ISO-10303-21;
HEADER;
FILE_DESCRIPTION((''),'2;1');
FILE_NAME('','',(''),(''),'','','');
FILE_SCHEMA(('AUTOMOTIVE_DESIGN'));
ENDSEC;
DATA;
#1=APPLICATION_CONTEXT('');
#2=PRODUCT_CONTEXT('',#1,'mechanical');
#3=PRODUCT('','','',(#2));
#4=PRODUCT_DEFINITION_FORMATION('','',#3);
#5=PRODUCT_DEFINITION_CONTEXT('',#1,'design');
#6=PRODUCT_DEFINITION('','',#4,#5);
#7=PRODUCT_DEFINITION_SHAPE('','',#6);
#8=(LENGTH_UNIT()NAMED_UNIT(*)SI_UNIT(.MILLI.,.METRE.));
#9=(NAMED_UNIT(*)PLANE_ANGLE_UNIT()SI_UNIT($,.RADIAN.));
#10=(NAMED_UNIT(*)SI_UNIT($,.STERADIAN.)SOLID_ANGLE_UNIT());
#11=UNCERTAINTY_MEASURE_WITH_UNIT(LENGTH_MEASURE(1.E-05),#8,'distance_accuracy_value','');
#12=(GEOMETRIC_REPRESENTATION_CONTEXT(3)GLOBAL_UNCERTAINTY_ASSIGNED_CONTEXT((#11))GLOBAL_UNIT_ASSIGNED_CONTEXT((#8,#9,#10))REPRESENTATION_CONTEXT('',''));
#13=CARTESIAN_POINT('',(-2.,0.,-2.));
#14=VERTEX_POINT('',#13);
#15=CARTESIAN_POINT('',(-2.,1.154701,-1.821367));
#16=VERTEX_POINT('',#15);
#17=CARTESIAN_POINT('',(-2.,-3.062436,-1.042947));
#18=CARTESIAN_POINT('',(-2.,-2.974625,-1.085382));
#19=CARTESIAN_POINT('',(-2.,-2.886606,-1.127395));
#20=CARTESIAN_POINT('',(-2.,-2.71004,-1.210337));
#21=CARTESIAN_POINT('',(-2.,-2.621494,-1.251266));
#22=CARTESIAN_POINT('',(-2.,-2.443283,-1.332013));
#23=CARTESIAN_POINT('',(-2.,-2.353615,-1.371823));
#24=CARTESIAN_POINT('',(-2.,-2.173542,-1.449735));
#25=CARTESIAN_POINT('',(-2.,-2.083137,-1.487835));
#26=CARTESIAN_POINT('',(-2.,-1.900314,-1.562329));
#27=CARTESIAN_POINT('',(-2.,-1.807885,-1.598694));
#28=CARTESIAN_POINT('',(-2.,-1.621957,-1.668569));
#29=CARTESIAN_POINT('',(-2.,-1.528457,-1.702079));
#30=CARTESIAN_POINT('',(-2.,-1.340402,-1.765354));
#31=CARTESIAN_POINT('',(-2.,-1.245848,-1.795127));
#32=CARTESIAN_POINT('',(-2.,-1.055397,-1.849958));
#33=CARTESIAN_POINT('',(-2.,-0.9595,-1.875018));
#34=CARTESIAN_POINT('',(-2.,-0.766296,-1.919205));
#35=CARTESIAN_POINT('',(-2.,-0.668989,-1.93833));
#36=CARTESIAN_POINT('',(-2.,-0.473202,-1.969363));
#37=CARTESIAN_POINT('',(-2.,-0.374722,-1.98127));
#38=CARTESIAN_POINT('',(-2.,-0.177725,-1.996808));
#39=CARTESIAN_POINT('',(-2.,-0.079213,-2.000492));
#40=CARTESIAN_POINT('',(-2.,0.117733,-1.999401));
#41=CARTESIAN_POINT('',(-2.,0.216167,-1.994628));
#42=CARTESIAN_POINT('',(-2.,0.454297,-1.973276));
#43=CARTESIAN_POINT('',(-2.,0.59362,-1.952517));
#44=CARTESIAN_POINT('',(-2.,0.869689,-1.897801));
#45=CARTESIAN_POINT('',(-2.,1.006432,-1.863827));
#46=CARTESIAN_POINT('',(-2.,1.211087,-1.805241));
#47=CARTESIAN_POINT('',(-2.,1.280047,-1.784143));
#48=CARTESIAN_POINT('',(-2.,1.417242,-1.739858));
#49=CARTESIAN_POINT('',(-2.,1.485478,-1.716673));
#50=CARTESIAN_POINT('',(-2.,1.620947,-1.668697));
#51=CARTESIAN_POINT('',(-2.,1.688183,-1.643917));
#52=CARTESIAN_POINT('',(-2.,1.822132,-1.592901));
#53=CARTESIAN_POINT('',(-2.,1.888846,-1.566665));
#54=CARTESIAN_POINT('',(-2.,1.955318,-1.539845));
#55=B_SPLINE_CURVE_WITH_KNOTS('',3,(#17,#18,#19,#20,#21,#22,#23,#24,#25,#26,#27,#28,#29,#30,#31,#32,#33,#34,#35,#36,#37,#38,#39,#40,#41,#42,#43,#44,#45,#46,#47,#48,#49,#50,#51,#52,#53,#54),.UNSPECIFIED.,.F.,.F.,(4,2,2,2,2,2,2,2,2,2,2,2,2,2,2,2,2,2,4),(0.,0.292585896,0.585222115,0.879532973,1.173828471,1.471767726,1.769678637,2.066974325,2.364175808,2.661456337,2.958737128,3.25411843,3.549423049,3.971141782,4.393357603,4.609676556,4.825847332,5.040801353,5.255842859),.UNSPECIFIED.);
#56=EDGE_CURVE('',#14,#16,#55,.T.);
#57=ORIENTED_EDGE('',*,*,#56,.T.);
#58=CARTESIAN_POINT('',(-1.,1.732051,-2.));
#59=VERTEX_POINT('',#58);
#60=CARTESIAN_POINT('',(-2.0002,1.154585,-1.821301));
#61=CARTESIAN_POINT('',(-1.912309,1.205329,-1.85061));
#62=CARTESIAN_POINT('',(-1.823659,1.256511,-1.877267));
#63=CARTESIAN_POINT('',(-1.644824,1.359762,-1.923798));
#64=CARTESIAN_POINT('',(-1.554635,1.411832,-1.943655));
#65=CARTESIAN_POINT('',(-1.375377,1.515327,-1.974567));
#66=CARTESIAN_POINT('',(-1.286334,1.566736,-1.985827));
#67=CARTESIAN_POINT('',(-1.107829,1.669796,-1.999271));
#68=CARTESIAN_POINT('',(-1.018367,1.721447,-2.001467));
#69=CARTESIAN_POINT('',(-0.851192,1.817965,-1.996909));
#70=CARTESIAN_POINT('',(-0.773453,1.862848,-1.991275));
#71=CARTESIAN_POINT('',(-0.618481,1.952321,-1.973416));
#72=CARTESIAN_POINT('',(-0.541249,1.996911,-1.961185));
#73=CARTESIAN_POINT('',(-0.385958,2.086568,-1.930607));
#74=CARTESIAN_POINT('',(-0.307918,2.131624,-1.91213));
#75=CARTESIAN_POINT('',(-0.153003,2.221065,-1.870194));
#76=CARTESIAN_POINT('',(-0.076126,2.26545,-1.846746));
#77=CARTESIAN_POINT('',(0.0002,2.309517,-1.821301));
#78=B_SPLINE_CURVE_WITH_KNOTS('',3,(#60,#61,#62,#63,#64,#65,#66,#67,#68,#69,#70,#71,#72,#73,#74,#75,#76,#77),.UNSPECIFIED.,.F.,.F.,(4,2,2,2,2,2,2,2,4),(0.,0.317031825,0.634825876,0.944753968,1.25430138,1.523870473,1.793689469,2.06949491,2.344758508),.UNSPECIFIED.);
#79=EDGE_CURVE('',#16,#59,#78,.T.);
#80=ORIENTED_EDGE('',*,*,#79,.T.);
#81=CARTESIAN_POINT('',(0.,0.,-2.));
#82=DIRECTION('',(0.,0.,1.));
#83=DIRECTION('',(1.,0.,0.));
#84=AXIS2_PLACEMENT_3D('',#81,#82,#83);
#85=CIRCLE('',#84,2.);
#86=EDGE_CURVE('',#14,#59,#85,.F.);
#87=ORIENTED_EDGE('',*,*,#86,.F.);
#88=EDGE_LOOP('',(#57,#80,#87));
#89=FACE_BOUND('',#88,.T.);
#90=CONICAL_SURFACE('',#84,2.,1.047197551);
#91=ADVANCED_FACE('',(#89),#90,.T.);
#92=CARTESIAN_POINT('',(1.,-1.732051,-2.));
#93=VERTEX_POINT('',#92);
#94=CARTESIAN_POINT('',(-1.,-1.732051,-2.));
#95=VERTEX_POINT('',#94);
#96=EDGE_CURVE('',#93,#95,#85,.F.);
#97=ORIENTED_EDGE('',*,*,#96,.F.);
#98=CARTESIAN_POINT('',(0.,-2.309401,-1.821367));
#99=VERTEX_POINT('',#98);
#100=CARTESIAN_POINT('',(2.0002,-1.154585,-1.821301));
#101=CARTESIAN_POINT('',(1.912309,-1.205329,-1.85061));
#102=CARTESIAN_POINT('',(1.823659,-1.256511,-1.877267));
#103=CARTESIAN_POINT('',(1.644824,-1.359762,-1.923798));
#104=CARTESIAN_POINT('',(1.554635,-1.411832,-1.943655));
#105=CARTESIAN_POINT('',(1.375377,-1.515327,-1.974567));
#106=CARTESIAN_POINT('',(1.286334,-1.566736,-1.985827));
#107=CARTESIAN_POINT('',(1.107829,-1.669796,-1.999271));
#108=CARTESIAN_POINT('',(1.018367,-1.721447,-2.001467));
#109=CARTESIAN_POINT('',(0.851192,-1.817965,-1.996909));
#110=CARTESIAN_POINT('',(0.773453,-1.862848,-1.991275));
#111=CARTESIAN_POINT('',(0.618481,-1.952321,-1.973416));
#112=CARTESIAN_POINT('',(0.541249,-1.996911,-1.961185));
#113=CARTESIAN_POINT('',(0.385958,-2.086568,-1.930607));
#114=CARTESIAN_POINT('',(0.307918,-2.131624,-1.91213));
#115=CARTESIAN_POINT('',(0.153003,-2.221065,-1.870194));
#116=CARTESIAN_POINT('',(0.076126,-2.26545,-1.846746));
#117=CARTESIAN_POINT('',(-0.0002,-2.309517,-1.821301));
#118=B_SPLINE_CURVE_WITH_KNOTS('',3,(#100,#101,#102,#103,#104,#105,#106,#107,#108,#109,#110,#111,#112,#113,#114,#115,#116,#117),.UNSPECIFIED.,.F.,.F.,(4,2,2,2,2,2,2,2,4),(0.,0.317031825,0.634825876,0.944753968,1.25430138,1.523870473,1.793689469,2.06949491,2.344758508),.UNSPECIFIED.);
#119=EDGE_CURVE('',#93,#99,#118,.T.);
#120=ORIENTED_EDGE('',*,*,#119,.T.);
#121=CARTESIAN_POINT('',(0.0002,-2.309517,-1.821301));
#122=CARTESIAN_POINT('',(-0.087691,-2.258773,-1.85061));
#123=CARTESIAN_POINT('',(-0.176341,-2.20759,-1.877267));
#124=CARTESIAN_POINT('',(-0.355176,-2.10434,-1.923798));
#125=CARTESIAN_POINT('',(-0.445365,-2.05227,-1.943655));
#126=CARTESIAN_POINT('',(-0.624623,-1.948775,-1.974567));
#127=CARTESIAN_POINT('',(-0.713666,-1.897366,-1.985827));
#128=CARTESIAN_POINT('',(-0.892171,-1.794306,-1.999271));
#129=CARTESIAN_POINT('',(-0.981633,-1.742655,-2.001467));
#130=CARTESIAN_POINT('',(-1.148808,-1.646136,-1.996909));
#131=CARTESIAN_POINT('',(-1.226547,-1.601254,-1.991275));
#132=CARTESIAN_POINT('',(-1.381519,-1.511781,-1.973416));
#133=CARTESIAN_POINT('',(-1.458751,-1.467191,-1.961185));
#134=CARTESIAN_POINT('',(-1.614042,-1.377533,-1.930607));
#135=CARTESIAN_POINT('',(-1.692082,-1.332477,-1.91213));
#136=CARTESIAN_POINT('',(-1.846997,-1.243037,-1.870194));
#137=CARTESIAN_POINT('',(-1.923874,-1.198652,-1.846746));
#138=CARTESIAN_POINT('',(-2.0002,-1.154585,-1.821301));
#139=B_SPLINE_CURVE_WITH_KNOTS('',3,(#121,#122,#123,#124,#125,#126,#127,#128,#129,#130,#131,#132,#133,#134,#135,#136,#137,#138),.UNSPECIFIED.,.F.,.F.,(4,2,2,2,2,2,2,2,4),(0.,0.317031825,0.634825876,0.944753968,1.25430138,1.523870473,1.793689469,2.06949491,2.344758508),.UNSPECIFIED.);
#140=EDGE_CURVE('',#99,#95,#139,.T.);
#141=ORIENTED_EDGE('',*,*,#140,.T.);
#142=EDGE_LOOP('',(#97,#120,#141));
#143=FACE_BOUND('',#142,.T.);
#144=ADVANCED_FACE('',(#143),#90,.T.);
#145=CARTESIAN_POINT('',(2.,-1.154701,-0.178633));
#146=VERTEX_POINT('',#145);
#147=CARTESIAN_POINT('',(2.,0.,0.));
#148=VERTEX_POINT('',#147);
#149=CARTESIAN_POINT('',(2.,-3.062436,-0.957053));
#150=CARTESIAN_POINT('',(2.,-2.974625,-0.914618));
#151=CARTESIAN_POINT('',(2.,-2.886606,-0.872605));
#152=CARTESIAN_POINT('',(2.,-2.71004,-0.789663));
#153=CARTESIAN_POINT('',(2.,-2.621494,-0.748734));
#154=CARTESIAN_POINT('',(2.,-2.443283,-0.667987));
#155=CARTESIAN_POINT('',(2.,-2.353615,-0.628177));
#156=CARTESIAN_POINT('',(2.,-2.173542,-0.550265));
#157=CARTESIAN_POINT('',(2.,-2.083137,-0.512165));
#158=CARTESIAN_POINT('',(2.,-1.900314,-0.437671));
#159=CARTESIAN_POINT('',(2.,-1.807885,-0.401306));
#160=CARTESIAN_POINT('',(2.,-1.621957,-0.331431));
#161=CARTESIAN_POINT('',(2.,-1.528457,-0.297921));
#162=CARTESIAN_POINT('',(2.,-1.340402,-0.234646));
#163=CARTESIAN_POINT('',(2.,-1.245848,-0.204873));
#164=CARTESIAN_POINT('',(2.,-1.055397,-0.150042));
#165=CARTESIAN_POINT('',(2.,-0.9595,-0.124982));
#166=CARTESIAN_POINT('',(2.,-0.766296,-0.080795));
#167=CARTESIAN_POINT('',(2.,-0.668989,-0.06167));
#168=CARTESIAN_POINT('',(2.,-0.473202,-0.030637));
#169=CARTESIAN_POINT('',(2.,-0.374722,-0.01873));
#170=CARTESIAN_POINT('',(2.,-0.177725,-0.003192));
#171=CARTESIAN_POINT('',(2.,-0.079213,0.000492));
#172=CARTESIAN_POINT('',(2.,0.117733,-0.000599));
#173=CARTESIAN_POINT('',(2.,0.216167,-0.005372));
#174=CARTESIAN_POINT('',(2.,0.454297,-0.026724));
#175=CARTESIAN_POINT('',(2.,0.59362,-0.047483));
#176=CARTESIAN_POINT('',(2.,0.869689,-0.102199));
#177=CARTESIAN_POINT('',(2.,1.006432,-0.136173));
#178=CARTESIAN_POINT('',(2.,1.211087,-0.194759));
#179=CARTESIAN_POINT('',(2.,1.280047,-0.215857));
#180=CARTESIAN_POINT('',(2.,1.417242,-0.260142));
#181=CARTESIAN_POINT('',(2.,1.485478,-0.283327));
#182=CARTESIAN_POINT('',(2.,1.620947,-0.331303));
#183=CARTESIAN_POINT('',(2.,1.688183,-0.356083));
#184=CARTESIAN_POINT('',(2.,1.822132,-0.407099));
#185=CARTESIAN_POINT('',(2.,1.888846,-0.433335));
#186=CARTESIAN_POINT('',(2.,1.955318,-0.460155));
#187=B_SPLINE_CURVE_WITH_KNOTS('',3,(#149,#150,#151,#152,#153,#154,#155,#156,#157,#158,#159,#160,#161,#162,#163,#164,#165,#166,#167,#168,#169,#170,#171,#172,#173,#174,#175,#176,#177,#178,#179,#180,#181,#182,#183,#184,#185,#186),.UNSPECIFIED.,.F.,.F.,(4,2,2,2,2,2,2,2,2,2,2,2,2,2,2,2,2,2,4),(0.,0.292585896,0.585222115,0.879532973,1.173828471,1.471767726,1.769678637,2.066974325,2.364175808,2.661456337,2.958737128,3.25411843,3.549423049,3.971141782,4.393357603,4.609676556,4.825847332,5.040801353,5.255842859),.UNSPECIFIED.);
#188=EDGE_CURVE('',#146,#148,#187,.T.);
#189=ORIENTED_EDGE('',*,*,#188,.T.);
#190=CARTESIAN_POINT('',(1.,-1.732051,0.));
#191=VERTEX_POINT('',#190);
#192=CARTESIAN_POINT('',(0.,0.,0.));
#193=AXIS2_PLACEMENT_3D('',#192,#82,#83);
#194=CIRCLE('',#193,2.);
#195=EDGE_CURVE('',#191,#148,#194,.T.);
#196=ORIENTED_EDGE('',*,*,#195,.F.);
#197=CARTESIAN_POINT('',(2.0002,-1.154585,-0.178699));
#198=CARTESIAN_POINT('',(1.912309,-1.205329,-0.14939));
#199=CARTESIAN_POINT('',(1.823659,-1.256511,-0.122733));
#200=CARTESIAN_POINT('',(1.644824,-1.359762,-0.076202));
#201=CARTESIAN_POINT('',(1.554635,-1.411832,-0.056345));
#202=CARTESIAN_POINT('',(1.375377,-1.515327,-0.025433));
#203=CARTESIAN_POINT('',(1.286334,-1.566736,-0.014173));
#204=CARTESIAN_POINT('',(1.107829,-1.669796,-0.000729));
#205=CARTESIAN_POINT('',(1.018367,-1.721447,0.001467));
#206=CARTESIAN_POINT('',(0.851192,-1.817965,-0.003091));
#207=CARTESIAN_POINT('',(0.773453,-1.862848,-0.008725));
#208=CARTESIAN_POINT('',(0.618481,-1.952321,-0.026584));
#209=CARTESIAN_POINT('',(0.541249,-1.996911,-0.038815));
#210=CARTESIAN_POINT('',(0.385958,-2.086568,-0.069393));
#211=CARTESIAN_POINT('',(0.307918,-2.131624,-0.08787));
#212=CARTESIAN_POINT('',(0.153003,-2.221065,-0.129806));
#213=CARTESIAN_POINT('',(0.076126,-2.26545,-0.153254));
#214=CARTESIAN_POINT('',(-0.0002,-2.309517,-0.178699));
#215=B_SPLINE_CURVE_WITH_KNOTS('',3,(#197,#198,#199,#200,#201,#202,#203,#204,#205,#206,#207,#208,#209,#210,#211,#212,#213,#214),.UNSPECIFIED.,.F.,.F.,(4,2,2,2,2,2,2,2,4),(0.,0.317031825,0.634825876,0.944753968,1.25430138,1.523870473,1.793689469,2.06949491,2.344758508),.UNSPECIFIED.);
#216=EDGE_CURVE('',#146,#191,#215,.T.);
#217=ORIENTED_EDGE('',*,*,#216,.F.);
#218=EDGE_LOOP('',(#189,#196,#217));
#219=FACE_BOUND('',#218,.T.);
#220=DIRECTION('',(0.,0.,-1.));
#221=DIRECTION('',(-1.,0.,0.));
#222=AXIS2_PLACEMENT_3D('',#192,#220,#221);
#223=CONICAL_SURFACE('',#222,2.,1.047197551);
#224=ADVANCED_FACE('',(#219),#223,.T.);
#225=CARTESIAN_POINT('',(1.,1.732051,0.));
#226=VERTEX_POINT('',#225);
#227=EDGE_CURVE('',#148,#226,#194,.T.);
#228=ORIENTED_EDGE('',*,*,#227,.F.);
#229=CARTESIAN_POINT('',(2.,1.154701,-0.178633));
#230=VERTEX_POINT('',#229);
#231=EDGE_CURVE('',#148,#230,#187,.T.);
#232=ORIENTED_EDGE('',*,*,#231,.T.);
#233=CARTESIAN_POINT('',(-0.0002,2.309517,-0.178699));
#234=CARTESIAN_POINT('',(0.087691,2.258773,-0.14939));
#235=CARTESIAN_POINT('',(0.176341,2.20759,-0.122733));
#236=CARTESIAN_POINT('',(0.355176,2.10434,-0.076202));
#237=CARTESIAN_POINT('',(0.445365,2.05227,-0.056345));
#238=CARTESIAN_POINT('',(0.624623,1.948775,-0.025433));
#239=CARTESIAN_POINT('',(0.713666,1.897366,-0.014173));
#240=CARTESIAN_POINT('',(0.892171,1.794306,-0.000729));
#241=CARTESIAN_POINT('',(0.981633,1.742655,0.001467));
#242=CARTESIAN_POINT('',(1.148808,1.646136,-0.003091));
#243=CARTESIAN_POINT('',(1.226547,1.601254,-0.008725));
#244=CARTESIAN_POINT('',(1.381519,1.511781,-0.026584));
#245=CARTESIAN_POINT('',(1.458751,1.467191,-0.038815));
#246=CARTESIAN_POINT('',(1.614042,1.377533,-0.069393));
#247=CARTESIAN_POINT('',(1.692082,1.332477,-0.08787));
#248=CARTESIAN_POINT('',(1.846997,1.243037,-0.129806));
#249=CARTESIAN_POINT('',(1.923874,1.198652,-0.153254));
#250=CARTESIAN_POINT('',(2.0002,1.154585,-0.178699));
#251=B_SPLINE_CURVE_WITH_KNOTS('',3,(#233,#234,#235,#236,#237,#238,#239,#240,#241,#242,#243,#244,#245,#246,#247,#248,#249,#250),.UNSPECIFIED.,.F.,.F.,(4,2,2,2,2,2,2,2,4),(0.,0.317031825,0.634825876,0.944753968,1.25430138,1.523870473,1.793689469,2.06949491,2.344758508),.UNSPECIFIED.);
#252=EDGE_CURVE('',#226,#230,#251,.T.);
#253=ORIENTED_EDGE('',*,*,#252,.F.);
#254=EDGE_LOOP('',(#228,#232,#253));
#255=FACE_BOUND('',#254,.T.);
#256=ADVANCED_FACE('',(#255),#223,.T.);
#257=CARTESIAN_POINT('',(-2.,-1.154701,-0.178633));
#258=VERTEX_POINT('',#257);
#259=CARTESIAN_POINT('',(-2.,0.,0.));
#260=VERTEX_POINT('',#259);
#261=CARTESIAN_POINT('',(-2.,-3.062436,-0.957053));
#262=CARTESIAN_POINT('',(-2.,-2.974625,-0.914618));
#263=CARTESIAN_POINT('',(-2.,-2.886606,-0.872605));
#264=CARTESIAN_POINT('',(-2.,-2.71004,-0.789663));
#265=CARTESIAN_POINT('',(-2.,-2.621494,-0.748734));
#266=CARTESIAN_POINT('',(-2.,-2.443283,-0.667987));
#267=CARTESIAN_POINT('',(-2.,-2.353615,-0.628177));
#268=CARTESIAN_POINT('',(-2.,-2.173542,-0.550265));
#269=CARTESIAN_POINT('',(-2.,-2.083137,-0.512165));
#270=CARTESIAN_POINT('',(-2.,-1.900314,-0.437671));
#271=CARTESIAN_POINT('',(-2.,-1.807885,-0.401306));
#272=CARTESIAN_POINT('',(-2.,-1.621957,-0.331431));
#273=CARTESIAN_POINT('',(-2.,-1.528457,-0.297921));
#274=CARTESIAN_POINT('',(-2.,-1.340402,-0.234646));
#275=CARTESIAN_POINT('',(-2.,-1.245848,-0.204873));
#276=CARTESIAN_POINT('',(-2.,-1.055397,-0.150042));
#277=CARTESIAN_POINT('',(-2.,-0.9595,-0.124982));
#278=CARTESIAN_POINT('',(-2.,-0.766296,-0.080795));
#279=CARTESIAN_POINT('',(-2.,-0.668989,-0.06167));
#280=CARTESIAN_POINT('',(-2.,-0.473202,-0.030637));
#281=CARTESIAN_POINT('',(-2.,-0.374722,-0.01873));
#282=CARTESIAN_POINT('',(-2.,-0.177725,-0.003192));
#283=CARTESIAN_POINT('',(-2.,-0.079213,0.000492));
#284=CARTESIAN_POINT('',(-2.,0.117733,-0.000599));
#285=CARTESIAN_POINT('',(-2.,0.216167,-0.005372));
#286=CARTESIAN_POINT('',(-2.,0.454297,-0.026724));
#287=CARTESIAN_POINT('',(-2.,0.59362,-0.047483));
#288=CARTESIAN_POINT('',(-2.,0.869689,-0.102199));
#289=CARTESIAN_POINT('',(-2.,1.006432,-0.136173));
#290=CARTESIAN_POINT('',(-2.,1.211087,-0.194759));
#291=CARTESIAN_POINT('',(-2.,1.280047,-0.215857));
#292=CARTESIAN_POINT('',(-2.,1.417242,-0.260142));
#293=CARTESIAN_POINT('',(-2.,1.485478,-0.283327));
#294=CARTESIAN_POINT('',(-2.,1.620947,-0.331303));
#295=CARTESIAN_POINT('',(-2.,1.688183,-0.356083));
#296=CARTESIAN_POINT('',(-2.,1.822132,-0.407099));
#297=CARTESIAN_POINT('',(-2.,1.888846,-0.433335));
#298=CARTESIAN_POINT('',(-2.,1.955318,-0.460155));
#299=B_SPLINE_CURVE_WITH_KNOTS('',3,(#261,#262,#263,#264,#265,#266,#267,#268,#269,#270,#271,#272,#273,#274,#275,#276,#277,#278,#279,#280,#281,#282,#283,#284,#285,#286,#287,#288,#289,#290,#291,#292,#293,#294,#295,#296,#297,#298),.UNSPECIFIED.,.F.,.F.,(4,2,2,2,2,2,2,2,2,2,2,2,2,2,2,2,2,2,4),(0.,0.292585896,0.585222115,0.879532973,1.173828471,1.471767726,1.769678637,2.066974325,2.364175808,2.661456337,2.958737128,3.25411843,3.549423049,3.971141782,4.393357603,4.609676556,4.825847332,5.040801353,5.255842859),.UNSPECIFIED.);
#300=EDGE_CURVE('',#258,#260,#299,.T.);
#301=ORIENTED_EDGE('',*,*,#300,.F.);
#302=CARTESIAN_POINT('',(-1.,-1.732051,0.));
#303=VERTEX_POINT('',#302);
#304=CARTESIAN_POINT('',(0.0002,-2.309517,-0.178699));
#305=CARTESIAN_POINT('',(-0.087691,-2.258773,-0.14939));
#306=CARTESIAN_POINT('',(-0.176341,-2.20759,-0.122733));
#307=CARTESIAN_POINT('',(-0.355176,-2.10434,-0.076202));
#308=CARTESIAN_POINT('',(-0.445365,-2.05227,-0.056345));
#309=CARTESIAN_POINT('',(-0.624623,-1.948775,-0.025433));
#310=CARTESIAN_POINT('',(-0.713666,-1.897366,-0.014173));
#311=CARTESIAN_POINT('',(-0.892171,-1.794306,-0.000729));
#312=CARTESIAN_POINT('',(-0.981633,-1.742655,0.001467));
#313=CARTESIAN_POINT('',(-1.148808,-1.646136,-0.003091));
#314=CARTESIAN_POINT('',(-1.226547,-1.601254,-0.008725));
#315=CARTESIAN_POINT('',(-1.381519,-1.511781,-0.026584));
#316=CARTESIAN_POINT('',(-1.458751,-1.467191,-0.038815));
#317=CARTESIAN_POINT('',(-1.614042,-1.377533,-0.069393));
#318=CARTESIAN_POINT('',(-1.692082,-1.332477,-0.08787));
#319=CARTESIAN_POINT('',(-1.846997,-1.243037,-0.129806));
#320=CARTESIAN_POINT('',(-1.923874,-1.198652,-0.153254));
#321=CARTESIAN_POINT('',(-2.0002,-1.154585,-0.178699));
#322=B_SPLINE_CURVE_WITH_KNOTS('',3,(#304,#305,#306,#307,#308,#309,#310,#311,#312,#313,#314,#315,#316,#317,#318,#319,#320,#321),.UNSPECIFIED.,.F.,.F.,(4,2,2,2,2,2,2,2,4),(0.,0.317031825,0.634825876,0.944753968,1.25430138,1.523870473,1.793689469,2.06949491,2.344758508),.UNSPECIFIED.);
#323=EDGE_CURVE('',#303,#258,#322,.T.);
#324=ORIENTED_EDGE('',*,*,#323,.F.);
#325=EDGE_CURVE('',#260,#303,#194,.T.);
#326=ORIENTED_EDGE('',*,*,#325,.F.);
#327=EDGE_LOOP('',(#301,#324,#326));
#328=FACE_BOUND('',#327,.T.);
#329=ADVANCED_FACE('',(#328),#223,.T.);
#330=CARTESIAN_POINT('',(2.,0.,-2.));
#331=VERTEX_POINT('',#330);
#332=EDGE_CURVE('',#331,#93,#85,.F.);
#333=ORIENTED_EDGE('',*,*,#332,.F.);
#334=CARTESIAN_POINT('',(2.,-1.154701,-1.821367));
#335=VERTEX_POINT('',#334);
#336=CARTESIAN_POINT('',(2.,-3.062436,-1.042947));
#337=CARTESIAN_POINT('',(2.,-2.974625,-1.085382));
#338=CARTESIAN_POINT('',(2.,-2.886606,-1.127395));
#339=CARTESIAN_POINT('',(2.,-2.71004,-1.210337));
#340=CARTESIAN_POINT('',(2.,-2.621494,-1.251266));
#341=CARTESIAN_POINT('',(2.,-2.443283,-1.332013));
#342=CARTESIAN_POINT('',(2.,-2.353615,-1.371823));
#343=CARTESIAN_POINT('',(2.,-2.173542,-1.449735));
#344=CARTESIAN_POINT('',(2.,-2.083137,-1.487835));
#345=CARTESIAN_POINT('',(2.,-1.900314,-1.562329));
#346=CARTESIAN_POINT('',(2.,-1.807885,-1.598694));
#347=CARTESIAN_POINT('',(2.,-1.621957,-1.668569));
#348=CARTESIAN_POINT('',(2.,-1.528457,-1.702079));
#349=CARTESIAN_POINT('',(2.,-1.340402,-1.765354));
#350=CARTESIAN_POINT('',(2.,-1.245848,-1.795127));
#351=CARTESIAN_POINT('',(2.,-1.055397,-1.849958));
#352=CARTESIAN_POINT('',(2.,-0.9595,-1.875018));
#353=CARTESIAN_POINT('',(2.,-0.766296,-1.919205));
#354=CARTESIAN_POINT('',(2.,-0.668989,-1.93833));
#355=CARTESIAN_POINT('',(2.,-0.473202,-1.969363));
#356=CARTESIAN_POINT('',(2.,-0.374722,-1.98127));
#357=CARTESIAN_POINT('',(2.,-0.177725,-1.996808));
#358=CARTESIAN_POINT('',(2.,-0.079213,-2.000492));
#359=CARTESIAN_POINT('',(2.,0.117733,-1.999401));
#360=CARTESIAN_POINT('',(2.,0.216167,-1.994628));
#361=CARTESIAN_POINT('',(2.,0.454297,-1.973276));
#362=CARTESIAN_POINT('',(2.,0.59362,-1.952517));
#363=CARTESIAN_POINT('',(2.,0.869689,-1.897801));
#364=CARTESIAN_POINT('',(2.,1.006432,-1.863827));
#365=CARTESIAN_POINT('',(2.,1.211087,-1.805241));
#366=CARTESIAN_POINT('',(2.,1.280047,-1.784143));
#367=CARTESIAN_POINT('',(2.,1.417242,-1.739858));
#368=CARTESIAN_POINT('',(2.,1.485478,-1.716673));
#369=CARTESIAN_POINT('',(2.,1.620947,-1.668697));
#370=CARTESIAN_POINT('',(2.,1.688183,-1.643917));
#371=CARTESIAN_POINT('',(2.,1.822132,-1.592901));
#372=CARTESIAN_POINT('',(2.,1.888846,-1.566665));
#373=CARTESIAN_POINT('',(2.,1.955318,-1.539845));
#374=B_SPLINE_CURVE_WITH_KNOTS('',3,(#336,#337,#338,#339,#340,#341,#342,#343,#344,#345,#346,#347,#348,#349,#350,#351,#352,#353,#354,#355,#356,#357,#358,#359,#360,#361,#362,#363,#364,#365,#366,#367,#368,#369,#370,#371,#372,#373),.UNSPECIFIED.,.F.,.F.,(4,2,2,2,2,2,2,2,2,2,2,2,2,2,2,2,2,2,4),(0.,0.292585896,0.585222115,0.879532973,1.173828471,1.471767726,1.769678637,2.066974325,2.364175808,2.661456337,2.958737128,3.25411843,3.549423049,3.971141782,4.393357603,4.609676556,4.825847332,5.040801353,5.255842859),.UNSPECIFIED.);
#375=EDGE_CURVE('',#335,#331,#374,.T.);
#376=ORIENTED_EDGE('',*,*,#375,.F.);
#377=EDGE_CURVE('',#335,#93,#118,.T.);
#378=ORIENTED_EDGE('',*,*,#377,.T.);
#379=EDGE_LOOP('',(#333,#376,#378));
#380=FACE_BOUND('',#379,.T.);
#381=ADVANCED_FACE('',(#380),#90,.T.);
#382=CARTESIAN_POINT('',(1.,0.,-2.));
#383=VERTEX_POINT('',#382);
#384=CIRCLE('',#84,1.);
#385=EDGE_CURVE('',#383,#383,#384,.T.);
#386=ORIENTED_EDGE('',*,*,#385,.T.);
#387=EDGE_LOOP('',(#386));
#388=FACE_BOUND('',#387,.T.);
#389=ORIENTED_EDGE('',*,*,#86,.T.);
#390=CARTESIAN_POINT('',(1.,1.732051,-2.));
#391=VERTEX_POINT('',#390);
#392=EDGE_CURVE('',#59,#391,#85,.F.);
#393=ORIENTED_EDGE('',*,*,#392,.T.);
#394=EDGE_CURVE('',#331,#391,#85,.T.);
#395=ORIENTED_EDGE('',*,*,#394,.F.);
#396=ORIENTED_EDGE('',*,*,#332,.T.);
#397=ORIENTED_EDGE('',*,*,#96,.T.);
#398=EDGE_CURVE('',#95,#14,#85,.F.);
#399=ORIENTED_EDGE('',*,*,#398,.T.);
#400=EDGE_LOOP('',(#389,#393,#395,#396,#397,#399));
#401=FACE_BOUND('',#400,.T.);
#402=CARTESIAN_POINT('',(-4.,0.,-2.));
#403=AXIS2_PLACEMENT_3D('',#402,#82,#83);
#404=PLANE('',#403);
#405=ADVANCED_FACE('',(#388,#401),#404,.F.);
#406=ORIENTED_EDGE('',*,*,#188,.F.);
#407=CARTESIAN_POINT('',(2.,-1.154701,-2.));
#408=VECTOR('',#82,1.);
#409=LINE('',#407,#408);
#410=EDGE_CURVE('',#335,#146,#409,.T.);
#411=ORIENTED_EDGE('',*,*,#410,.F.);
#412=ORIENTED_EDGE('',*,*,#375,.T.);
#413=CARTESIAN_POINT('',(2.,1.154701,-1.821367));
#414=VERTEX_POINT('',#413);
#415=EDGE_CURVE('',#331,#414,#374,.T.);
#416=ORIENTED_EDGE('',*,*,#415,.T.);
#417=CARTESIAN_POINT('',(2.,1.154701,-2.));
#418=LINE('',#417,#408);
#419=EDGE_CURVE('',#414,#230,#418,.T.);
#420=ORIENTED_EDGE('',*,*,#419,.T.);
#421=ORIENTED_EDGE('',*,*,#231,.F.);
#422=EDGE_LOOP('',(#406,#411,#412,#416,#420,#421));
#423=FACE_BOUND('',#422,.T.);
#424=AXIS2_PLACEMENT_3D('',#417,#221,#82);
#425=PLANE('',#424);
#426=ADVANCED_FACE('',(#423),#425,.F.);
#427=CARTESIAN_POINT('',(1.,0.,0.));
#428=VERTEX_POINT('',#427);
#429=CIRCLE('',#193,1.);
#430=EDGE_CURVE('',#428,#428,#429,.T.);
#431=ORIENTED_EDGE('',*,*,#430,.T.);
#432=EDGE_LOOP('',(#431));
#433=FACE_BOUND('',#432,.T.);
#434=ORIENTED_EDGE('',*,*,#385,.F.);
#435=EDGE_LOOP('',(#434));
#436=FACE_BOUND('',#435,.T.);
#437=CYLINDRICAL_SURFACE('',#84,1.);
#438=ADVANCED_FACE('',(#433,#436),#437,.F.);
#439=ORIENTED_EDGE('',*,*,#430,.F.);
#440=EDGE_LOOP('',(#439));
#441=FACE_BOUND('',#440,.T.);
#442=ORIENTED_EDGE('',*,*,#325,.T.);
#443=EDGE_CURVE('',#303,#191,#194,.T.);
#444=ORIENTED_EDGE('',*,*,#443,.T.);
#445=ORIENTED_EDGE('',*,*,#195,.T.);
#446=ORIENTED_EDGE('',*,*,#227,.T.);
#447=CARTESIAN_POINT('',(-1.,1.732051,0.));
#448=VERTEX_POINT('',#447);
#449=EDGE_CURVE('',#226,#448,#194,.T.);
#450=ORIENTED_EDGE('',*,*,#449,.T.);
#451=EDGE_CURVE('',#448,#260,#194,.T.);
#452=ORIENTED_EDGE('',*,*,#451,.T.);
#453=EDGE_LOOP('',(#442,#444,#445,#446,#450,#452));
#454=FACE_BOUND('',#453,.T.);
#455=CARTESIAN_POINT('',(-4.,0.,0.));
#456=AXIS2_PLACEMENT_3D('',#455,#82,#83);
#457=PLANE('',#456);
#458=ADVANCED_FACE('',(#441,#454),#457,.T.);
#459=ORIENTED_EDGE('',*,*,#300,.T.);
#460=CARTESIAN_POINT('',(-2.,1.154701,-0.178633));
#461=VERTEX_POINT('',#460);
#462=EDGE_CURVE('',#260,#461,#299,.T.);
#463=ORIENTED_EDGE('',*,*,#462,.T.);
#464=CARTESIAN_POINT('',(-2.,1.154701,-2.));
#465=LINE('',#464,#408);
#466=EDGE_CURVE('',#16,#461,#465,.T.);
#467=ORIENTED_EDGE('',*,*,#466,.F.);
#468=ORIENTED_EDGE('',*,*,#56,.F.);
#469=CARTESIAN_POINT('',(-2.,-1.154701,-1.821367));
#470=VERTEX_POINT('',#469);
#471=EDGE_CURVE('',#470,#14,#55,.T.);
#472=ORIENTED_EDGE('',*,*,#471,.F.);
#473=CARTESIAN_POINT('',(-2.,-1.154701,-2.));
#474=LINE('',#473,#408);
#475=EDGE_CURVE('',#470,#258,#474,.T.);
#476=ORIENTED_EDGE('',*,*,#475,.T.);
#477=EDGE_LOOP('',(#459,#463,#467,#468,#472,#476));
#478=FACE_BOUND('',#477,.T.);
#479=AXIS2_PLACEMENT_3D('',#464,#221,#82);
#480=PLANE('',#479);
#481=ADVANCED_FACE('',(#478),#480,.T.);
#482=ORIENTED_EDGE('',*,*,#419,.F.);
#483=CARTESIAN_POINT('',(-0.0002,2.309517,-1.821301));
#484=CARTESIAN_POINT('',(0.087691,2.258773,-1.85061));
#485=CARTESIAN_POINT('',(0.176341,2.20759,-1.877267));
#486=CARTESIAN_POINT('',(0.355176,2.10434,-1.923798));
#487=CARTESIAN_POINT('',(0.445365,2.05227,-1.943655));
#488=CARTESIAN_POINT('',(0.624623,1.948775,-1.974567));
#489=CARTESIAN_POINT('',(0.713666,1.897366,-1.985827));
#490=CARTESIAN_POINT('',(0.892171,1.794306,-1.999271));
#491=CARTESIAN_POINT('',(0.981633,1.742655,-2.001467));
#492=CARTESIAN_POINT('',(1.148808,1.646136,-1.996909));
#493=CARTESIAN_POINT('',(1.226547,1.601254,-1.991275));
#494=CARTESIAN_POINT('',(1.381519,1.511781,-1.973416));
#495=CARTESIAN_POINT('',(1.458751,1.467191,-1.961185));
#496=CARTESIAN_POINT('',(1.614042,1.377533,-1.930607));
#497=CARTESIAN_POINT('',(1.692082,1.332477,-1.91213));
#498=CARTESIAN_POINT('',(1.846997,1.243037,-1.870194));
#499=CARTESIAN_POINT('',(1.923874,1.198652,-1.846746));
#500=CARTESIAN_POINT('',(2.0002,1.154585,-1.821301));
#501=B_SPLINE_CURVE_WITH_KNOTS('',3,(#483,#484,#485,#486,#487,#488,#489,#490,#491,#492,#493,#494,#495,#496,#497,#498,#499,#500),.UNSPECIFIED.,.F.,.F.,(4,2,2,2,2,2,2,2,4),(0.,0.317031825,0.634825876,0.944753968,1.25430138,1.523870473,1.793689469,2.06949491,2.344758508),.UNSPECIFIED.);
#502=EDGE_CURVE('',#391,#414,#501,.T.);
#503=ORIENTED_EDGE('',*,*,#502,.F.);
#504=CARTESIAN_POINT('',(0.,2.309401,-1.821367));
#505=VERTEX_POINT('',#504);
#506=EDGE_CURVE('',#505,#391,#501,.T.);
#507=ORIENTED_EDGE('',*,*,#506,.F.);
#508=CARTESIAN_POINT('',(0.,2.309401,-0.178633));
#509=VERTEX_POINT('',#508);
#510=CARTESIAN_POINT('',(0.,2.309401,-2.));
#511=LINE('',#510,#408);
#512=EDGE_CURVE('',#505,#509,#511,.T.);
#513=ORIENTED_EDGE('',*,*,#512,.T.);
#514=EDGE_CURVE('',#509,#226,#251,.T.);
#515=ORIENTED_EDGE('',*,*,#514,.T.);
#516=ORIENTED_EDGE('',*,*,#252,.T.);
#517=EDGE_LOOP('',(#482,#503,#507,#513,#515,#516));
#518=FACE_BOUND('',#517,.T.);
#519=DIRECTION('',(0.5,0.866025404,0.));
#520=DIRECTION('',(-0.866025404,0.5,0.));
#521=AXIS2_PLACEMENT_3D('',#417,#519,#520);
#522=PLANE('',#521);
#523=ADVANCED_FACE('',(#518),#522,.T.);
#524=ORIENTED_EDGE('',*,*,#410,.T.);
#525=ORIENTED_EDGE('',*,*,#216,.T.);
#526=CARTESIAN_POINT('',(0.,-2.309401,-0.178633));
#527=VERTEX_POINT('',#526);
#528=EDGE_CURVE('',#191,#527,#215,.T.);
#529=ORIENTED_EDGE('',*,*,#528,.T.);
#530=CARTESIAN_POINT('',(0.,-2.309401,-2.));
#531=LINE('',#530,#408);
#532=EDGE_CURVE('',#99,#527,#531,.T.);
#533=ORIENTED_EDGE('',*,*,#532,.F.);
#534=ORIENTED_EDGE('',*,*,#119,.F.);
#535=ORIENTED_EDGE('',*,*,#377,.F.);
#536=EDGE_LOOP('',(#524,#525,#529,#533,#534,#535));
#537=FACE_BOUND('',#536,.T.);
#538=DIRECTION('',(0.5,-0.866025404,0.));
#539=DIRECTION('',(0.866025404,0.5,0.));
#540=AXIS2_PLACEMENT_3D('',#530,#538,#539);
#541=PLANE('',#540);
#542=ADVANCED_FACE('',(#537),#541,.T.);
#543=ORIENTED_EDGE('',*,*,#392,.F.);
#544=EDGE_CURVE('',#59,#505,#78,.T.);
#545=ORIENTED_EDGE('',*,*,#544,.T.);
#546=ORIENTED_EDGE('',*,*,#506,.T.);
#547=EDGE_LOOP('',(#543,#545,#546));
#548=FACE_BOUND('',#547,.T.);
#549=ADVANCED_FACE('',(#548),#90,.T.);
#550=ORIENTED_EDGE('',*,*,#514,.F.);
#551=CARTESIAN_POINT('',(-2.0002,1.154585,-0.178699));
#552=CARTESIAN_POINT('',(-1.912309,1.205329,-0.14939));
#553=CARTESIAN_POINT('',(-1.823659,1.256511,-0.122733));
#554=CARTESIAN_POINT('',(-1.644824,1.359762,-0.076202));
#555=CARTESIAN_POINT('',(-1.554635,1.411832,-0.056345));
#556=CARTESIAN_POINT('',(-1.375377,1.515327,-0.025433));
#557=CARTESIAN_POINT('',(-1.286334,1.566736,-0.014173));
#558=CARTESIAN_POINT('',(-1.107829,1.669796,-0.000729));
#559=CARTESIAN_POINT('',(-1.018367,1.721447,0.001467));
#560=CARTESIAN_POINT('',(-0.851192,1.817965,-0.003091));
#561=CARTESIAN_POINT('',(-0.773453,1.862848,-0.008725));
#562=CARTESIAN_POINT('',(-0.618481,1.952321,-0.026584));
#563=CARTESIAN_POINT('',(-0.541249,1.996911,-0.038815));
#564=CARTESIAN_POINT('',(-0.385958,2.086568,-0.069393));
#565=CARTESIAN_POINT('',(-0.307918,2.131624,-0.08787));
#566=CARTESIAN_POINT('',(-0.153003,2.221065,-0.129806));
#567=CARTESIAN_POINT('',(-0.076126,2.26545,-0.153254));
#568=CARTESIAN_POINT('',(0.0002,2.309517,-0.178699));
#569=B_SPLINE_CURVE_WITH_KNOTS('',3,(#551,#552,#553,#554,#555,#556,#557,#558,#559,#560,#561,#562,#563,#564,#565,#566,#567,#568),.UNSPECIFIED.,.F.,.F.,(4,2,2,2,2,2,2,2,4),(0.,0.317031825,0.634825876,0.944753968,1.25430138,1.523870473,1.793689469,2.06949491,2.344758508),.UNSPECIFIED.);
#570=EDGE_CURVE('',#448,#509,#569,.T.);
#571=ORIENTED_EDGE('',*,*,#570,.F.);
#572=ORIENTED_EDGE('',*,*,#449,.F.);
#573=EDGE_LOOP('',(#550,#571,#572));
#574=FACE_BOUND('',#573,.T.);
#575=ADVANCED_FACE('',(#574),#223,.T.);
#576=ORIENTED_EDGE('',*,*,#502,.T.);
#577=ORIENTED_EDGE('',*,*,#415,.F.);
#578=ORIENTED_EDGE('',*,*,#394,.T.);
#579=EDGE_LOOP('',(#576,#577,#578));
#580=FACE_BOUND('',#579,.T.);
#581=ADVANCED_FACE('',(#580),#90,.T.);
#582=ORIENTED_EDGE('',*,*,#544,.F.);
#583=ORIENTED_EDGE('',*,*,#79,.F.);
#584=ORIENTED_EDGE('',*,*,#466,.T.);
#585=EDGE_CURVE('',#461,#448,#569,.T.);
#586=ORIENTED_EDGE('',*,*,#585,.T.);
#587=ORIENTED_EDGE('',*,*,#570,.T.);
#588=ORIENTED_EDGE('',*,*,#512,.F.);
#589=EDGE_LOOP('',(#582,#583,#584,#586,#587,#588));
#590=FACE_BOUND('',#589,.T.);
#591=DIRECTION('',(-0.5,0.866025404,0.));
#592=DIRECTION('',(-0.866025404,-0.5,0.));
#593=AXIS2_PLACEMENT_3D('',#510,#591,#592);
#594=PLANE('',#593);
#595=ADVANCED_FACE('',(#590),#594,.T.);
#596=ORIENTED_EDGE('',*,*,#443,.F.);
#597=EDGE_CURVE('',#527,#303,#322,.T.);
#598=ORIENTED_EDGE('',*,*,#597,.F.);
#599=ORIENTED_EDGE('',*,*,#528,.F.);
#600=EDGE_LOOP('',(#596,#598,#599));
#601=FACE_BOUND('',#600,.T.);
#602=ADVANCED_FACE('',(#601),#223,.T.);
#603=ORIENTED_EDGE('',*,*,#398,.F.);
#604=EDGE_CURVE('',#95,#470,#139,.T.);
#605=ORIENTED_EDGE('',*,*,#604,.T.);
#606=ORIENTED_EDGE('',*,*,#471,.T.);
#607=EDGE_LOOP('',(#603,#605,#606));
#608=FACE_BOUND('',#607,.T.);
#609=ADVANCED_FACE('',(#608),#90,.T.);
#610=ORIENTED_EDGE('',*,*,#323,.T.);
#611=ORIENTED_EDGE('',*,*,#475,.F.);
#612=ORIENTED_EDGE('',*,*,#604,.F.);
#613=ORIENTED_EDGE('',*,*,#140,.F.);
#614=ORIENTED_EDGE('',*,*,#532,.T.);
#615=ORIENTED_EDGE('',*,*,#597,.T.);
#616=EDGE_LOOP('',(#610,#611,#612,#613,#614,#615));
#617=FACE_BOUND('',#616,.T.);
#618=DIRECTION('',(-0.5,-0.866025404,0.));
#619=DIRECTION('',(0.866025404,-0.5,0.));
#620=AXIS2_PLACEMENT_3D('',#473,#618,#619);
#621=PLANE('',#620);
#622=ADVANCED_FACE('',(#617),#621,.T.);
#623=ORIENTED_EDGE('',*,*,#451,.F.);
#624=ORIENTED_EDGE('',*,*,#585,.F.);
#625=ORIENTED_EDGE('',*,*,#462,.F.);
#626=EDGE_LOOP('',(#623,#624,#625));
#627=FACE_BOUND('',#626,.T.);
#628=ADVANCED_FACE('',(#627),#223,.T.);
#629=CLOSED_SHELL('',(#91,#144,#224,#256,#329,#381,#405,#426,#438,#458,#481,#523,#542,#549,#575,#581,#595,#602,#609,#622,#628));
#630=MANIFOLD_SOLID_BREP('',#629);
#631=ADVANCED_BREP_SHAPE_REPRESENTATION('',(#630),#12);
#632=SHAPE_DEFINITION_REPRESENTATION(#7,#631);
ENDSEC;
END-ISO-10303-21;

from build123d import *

# Parameters (mm, degrees)
BASENUTSKE_R  = 1
BASENUT_DEPTH = 2


with BuildPart() as part:
    # BaseNutSke → BaseNut (new body)
    with BuildSketch(Plane.XY):
        Polygon((2, 1.154700538), (2, -1.154700538), (0, -2.309401077), (-2, -1.154700538), (-2, 1.154700538), (0, 2.309401077), align=None)
        Circle(BASENUTSKE_R, mode=Mode.SUBTRACT)
    extrude(amount=-BASENUT_DEPTH)

    # Sketch3 → Double-Chamfer (revolve, cut)
    with BuildSketch(Plane(origin=(0, 0, 0), x_dir=(0, 0, -1), z_dir=(1, 0, 0))):
        Polygon((2, 2), (1.821367205, 2.309401077), (1.821367205, 12.309401077), (12, 12.309401077), (12, 2), align=None)
        Polygon((0.178632795, 12.309401077), (-10, 12.309401077), (-10, 2), (0, 2), (0.178632795, 2.309401077), align=None)
    revolve(axis=Axis((0, 0, 0), (0, 0, -1)), mode=Mode.SUBTRACT)


solid = part.part
